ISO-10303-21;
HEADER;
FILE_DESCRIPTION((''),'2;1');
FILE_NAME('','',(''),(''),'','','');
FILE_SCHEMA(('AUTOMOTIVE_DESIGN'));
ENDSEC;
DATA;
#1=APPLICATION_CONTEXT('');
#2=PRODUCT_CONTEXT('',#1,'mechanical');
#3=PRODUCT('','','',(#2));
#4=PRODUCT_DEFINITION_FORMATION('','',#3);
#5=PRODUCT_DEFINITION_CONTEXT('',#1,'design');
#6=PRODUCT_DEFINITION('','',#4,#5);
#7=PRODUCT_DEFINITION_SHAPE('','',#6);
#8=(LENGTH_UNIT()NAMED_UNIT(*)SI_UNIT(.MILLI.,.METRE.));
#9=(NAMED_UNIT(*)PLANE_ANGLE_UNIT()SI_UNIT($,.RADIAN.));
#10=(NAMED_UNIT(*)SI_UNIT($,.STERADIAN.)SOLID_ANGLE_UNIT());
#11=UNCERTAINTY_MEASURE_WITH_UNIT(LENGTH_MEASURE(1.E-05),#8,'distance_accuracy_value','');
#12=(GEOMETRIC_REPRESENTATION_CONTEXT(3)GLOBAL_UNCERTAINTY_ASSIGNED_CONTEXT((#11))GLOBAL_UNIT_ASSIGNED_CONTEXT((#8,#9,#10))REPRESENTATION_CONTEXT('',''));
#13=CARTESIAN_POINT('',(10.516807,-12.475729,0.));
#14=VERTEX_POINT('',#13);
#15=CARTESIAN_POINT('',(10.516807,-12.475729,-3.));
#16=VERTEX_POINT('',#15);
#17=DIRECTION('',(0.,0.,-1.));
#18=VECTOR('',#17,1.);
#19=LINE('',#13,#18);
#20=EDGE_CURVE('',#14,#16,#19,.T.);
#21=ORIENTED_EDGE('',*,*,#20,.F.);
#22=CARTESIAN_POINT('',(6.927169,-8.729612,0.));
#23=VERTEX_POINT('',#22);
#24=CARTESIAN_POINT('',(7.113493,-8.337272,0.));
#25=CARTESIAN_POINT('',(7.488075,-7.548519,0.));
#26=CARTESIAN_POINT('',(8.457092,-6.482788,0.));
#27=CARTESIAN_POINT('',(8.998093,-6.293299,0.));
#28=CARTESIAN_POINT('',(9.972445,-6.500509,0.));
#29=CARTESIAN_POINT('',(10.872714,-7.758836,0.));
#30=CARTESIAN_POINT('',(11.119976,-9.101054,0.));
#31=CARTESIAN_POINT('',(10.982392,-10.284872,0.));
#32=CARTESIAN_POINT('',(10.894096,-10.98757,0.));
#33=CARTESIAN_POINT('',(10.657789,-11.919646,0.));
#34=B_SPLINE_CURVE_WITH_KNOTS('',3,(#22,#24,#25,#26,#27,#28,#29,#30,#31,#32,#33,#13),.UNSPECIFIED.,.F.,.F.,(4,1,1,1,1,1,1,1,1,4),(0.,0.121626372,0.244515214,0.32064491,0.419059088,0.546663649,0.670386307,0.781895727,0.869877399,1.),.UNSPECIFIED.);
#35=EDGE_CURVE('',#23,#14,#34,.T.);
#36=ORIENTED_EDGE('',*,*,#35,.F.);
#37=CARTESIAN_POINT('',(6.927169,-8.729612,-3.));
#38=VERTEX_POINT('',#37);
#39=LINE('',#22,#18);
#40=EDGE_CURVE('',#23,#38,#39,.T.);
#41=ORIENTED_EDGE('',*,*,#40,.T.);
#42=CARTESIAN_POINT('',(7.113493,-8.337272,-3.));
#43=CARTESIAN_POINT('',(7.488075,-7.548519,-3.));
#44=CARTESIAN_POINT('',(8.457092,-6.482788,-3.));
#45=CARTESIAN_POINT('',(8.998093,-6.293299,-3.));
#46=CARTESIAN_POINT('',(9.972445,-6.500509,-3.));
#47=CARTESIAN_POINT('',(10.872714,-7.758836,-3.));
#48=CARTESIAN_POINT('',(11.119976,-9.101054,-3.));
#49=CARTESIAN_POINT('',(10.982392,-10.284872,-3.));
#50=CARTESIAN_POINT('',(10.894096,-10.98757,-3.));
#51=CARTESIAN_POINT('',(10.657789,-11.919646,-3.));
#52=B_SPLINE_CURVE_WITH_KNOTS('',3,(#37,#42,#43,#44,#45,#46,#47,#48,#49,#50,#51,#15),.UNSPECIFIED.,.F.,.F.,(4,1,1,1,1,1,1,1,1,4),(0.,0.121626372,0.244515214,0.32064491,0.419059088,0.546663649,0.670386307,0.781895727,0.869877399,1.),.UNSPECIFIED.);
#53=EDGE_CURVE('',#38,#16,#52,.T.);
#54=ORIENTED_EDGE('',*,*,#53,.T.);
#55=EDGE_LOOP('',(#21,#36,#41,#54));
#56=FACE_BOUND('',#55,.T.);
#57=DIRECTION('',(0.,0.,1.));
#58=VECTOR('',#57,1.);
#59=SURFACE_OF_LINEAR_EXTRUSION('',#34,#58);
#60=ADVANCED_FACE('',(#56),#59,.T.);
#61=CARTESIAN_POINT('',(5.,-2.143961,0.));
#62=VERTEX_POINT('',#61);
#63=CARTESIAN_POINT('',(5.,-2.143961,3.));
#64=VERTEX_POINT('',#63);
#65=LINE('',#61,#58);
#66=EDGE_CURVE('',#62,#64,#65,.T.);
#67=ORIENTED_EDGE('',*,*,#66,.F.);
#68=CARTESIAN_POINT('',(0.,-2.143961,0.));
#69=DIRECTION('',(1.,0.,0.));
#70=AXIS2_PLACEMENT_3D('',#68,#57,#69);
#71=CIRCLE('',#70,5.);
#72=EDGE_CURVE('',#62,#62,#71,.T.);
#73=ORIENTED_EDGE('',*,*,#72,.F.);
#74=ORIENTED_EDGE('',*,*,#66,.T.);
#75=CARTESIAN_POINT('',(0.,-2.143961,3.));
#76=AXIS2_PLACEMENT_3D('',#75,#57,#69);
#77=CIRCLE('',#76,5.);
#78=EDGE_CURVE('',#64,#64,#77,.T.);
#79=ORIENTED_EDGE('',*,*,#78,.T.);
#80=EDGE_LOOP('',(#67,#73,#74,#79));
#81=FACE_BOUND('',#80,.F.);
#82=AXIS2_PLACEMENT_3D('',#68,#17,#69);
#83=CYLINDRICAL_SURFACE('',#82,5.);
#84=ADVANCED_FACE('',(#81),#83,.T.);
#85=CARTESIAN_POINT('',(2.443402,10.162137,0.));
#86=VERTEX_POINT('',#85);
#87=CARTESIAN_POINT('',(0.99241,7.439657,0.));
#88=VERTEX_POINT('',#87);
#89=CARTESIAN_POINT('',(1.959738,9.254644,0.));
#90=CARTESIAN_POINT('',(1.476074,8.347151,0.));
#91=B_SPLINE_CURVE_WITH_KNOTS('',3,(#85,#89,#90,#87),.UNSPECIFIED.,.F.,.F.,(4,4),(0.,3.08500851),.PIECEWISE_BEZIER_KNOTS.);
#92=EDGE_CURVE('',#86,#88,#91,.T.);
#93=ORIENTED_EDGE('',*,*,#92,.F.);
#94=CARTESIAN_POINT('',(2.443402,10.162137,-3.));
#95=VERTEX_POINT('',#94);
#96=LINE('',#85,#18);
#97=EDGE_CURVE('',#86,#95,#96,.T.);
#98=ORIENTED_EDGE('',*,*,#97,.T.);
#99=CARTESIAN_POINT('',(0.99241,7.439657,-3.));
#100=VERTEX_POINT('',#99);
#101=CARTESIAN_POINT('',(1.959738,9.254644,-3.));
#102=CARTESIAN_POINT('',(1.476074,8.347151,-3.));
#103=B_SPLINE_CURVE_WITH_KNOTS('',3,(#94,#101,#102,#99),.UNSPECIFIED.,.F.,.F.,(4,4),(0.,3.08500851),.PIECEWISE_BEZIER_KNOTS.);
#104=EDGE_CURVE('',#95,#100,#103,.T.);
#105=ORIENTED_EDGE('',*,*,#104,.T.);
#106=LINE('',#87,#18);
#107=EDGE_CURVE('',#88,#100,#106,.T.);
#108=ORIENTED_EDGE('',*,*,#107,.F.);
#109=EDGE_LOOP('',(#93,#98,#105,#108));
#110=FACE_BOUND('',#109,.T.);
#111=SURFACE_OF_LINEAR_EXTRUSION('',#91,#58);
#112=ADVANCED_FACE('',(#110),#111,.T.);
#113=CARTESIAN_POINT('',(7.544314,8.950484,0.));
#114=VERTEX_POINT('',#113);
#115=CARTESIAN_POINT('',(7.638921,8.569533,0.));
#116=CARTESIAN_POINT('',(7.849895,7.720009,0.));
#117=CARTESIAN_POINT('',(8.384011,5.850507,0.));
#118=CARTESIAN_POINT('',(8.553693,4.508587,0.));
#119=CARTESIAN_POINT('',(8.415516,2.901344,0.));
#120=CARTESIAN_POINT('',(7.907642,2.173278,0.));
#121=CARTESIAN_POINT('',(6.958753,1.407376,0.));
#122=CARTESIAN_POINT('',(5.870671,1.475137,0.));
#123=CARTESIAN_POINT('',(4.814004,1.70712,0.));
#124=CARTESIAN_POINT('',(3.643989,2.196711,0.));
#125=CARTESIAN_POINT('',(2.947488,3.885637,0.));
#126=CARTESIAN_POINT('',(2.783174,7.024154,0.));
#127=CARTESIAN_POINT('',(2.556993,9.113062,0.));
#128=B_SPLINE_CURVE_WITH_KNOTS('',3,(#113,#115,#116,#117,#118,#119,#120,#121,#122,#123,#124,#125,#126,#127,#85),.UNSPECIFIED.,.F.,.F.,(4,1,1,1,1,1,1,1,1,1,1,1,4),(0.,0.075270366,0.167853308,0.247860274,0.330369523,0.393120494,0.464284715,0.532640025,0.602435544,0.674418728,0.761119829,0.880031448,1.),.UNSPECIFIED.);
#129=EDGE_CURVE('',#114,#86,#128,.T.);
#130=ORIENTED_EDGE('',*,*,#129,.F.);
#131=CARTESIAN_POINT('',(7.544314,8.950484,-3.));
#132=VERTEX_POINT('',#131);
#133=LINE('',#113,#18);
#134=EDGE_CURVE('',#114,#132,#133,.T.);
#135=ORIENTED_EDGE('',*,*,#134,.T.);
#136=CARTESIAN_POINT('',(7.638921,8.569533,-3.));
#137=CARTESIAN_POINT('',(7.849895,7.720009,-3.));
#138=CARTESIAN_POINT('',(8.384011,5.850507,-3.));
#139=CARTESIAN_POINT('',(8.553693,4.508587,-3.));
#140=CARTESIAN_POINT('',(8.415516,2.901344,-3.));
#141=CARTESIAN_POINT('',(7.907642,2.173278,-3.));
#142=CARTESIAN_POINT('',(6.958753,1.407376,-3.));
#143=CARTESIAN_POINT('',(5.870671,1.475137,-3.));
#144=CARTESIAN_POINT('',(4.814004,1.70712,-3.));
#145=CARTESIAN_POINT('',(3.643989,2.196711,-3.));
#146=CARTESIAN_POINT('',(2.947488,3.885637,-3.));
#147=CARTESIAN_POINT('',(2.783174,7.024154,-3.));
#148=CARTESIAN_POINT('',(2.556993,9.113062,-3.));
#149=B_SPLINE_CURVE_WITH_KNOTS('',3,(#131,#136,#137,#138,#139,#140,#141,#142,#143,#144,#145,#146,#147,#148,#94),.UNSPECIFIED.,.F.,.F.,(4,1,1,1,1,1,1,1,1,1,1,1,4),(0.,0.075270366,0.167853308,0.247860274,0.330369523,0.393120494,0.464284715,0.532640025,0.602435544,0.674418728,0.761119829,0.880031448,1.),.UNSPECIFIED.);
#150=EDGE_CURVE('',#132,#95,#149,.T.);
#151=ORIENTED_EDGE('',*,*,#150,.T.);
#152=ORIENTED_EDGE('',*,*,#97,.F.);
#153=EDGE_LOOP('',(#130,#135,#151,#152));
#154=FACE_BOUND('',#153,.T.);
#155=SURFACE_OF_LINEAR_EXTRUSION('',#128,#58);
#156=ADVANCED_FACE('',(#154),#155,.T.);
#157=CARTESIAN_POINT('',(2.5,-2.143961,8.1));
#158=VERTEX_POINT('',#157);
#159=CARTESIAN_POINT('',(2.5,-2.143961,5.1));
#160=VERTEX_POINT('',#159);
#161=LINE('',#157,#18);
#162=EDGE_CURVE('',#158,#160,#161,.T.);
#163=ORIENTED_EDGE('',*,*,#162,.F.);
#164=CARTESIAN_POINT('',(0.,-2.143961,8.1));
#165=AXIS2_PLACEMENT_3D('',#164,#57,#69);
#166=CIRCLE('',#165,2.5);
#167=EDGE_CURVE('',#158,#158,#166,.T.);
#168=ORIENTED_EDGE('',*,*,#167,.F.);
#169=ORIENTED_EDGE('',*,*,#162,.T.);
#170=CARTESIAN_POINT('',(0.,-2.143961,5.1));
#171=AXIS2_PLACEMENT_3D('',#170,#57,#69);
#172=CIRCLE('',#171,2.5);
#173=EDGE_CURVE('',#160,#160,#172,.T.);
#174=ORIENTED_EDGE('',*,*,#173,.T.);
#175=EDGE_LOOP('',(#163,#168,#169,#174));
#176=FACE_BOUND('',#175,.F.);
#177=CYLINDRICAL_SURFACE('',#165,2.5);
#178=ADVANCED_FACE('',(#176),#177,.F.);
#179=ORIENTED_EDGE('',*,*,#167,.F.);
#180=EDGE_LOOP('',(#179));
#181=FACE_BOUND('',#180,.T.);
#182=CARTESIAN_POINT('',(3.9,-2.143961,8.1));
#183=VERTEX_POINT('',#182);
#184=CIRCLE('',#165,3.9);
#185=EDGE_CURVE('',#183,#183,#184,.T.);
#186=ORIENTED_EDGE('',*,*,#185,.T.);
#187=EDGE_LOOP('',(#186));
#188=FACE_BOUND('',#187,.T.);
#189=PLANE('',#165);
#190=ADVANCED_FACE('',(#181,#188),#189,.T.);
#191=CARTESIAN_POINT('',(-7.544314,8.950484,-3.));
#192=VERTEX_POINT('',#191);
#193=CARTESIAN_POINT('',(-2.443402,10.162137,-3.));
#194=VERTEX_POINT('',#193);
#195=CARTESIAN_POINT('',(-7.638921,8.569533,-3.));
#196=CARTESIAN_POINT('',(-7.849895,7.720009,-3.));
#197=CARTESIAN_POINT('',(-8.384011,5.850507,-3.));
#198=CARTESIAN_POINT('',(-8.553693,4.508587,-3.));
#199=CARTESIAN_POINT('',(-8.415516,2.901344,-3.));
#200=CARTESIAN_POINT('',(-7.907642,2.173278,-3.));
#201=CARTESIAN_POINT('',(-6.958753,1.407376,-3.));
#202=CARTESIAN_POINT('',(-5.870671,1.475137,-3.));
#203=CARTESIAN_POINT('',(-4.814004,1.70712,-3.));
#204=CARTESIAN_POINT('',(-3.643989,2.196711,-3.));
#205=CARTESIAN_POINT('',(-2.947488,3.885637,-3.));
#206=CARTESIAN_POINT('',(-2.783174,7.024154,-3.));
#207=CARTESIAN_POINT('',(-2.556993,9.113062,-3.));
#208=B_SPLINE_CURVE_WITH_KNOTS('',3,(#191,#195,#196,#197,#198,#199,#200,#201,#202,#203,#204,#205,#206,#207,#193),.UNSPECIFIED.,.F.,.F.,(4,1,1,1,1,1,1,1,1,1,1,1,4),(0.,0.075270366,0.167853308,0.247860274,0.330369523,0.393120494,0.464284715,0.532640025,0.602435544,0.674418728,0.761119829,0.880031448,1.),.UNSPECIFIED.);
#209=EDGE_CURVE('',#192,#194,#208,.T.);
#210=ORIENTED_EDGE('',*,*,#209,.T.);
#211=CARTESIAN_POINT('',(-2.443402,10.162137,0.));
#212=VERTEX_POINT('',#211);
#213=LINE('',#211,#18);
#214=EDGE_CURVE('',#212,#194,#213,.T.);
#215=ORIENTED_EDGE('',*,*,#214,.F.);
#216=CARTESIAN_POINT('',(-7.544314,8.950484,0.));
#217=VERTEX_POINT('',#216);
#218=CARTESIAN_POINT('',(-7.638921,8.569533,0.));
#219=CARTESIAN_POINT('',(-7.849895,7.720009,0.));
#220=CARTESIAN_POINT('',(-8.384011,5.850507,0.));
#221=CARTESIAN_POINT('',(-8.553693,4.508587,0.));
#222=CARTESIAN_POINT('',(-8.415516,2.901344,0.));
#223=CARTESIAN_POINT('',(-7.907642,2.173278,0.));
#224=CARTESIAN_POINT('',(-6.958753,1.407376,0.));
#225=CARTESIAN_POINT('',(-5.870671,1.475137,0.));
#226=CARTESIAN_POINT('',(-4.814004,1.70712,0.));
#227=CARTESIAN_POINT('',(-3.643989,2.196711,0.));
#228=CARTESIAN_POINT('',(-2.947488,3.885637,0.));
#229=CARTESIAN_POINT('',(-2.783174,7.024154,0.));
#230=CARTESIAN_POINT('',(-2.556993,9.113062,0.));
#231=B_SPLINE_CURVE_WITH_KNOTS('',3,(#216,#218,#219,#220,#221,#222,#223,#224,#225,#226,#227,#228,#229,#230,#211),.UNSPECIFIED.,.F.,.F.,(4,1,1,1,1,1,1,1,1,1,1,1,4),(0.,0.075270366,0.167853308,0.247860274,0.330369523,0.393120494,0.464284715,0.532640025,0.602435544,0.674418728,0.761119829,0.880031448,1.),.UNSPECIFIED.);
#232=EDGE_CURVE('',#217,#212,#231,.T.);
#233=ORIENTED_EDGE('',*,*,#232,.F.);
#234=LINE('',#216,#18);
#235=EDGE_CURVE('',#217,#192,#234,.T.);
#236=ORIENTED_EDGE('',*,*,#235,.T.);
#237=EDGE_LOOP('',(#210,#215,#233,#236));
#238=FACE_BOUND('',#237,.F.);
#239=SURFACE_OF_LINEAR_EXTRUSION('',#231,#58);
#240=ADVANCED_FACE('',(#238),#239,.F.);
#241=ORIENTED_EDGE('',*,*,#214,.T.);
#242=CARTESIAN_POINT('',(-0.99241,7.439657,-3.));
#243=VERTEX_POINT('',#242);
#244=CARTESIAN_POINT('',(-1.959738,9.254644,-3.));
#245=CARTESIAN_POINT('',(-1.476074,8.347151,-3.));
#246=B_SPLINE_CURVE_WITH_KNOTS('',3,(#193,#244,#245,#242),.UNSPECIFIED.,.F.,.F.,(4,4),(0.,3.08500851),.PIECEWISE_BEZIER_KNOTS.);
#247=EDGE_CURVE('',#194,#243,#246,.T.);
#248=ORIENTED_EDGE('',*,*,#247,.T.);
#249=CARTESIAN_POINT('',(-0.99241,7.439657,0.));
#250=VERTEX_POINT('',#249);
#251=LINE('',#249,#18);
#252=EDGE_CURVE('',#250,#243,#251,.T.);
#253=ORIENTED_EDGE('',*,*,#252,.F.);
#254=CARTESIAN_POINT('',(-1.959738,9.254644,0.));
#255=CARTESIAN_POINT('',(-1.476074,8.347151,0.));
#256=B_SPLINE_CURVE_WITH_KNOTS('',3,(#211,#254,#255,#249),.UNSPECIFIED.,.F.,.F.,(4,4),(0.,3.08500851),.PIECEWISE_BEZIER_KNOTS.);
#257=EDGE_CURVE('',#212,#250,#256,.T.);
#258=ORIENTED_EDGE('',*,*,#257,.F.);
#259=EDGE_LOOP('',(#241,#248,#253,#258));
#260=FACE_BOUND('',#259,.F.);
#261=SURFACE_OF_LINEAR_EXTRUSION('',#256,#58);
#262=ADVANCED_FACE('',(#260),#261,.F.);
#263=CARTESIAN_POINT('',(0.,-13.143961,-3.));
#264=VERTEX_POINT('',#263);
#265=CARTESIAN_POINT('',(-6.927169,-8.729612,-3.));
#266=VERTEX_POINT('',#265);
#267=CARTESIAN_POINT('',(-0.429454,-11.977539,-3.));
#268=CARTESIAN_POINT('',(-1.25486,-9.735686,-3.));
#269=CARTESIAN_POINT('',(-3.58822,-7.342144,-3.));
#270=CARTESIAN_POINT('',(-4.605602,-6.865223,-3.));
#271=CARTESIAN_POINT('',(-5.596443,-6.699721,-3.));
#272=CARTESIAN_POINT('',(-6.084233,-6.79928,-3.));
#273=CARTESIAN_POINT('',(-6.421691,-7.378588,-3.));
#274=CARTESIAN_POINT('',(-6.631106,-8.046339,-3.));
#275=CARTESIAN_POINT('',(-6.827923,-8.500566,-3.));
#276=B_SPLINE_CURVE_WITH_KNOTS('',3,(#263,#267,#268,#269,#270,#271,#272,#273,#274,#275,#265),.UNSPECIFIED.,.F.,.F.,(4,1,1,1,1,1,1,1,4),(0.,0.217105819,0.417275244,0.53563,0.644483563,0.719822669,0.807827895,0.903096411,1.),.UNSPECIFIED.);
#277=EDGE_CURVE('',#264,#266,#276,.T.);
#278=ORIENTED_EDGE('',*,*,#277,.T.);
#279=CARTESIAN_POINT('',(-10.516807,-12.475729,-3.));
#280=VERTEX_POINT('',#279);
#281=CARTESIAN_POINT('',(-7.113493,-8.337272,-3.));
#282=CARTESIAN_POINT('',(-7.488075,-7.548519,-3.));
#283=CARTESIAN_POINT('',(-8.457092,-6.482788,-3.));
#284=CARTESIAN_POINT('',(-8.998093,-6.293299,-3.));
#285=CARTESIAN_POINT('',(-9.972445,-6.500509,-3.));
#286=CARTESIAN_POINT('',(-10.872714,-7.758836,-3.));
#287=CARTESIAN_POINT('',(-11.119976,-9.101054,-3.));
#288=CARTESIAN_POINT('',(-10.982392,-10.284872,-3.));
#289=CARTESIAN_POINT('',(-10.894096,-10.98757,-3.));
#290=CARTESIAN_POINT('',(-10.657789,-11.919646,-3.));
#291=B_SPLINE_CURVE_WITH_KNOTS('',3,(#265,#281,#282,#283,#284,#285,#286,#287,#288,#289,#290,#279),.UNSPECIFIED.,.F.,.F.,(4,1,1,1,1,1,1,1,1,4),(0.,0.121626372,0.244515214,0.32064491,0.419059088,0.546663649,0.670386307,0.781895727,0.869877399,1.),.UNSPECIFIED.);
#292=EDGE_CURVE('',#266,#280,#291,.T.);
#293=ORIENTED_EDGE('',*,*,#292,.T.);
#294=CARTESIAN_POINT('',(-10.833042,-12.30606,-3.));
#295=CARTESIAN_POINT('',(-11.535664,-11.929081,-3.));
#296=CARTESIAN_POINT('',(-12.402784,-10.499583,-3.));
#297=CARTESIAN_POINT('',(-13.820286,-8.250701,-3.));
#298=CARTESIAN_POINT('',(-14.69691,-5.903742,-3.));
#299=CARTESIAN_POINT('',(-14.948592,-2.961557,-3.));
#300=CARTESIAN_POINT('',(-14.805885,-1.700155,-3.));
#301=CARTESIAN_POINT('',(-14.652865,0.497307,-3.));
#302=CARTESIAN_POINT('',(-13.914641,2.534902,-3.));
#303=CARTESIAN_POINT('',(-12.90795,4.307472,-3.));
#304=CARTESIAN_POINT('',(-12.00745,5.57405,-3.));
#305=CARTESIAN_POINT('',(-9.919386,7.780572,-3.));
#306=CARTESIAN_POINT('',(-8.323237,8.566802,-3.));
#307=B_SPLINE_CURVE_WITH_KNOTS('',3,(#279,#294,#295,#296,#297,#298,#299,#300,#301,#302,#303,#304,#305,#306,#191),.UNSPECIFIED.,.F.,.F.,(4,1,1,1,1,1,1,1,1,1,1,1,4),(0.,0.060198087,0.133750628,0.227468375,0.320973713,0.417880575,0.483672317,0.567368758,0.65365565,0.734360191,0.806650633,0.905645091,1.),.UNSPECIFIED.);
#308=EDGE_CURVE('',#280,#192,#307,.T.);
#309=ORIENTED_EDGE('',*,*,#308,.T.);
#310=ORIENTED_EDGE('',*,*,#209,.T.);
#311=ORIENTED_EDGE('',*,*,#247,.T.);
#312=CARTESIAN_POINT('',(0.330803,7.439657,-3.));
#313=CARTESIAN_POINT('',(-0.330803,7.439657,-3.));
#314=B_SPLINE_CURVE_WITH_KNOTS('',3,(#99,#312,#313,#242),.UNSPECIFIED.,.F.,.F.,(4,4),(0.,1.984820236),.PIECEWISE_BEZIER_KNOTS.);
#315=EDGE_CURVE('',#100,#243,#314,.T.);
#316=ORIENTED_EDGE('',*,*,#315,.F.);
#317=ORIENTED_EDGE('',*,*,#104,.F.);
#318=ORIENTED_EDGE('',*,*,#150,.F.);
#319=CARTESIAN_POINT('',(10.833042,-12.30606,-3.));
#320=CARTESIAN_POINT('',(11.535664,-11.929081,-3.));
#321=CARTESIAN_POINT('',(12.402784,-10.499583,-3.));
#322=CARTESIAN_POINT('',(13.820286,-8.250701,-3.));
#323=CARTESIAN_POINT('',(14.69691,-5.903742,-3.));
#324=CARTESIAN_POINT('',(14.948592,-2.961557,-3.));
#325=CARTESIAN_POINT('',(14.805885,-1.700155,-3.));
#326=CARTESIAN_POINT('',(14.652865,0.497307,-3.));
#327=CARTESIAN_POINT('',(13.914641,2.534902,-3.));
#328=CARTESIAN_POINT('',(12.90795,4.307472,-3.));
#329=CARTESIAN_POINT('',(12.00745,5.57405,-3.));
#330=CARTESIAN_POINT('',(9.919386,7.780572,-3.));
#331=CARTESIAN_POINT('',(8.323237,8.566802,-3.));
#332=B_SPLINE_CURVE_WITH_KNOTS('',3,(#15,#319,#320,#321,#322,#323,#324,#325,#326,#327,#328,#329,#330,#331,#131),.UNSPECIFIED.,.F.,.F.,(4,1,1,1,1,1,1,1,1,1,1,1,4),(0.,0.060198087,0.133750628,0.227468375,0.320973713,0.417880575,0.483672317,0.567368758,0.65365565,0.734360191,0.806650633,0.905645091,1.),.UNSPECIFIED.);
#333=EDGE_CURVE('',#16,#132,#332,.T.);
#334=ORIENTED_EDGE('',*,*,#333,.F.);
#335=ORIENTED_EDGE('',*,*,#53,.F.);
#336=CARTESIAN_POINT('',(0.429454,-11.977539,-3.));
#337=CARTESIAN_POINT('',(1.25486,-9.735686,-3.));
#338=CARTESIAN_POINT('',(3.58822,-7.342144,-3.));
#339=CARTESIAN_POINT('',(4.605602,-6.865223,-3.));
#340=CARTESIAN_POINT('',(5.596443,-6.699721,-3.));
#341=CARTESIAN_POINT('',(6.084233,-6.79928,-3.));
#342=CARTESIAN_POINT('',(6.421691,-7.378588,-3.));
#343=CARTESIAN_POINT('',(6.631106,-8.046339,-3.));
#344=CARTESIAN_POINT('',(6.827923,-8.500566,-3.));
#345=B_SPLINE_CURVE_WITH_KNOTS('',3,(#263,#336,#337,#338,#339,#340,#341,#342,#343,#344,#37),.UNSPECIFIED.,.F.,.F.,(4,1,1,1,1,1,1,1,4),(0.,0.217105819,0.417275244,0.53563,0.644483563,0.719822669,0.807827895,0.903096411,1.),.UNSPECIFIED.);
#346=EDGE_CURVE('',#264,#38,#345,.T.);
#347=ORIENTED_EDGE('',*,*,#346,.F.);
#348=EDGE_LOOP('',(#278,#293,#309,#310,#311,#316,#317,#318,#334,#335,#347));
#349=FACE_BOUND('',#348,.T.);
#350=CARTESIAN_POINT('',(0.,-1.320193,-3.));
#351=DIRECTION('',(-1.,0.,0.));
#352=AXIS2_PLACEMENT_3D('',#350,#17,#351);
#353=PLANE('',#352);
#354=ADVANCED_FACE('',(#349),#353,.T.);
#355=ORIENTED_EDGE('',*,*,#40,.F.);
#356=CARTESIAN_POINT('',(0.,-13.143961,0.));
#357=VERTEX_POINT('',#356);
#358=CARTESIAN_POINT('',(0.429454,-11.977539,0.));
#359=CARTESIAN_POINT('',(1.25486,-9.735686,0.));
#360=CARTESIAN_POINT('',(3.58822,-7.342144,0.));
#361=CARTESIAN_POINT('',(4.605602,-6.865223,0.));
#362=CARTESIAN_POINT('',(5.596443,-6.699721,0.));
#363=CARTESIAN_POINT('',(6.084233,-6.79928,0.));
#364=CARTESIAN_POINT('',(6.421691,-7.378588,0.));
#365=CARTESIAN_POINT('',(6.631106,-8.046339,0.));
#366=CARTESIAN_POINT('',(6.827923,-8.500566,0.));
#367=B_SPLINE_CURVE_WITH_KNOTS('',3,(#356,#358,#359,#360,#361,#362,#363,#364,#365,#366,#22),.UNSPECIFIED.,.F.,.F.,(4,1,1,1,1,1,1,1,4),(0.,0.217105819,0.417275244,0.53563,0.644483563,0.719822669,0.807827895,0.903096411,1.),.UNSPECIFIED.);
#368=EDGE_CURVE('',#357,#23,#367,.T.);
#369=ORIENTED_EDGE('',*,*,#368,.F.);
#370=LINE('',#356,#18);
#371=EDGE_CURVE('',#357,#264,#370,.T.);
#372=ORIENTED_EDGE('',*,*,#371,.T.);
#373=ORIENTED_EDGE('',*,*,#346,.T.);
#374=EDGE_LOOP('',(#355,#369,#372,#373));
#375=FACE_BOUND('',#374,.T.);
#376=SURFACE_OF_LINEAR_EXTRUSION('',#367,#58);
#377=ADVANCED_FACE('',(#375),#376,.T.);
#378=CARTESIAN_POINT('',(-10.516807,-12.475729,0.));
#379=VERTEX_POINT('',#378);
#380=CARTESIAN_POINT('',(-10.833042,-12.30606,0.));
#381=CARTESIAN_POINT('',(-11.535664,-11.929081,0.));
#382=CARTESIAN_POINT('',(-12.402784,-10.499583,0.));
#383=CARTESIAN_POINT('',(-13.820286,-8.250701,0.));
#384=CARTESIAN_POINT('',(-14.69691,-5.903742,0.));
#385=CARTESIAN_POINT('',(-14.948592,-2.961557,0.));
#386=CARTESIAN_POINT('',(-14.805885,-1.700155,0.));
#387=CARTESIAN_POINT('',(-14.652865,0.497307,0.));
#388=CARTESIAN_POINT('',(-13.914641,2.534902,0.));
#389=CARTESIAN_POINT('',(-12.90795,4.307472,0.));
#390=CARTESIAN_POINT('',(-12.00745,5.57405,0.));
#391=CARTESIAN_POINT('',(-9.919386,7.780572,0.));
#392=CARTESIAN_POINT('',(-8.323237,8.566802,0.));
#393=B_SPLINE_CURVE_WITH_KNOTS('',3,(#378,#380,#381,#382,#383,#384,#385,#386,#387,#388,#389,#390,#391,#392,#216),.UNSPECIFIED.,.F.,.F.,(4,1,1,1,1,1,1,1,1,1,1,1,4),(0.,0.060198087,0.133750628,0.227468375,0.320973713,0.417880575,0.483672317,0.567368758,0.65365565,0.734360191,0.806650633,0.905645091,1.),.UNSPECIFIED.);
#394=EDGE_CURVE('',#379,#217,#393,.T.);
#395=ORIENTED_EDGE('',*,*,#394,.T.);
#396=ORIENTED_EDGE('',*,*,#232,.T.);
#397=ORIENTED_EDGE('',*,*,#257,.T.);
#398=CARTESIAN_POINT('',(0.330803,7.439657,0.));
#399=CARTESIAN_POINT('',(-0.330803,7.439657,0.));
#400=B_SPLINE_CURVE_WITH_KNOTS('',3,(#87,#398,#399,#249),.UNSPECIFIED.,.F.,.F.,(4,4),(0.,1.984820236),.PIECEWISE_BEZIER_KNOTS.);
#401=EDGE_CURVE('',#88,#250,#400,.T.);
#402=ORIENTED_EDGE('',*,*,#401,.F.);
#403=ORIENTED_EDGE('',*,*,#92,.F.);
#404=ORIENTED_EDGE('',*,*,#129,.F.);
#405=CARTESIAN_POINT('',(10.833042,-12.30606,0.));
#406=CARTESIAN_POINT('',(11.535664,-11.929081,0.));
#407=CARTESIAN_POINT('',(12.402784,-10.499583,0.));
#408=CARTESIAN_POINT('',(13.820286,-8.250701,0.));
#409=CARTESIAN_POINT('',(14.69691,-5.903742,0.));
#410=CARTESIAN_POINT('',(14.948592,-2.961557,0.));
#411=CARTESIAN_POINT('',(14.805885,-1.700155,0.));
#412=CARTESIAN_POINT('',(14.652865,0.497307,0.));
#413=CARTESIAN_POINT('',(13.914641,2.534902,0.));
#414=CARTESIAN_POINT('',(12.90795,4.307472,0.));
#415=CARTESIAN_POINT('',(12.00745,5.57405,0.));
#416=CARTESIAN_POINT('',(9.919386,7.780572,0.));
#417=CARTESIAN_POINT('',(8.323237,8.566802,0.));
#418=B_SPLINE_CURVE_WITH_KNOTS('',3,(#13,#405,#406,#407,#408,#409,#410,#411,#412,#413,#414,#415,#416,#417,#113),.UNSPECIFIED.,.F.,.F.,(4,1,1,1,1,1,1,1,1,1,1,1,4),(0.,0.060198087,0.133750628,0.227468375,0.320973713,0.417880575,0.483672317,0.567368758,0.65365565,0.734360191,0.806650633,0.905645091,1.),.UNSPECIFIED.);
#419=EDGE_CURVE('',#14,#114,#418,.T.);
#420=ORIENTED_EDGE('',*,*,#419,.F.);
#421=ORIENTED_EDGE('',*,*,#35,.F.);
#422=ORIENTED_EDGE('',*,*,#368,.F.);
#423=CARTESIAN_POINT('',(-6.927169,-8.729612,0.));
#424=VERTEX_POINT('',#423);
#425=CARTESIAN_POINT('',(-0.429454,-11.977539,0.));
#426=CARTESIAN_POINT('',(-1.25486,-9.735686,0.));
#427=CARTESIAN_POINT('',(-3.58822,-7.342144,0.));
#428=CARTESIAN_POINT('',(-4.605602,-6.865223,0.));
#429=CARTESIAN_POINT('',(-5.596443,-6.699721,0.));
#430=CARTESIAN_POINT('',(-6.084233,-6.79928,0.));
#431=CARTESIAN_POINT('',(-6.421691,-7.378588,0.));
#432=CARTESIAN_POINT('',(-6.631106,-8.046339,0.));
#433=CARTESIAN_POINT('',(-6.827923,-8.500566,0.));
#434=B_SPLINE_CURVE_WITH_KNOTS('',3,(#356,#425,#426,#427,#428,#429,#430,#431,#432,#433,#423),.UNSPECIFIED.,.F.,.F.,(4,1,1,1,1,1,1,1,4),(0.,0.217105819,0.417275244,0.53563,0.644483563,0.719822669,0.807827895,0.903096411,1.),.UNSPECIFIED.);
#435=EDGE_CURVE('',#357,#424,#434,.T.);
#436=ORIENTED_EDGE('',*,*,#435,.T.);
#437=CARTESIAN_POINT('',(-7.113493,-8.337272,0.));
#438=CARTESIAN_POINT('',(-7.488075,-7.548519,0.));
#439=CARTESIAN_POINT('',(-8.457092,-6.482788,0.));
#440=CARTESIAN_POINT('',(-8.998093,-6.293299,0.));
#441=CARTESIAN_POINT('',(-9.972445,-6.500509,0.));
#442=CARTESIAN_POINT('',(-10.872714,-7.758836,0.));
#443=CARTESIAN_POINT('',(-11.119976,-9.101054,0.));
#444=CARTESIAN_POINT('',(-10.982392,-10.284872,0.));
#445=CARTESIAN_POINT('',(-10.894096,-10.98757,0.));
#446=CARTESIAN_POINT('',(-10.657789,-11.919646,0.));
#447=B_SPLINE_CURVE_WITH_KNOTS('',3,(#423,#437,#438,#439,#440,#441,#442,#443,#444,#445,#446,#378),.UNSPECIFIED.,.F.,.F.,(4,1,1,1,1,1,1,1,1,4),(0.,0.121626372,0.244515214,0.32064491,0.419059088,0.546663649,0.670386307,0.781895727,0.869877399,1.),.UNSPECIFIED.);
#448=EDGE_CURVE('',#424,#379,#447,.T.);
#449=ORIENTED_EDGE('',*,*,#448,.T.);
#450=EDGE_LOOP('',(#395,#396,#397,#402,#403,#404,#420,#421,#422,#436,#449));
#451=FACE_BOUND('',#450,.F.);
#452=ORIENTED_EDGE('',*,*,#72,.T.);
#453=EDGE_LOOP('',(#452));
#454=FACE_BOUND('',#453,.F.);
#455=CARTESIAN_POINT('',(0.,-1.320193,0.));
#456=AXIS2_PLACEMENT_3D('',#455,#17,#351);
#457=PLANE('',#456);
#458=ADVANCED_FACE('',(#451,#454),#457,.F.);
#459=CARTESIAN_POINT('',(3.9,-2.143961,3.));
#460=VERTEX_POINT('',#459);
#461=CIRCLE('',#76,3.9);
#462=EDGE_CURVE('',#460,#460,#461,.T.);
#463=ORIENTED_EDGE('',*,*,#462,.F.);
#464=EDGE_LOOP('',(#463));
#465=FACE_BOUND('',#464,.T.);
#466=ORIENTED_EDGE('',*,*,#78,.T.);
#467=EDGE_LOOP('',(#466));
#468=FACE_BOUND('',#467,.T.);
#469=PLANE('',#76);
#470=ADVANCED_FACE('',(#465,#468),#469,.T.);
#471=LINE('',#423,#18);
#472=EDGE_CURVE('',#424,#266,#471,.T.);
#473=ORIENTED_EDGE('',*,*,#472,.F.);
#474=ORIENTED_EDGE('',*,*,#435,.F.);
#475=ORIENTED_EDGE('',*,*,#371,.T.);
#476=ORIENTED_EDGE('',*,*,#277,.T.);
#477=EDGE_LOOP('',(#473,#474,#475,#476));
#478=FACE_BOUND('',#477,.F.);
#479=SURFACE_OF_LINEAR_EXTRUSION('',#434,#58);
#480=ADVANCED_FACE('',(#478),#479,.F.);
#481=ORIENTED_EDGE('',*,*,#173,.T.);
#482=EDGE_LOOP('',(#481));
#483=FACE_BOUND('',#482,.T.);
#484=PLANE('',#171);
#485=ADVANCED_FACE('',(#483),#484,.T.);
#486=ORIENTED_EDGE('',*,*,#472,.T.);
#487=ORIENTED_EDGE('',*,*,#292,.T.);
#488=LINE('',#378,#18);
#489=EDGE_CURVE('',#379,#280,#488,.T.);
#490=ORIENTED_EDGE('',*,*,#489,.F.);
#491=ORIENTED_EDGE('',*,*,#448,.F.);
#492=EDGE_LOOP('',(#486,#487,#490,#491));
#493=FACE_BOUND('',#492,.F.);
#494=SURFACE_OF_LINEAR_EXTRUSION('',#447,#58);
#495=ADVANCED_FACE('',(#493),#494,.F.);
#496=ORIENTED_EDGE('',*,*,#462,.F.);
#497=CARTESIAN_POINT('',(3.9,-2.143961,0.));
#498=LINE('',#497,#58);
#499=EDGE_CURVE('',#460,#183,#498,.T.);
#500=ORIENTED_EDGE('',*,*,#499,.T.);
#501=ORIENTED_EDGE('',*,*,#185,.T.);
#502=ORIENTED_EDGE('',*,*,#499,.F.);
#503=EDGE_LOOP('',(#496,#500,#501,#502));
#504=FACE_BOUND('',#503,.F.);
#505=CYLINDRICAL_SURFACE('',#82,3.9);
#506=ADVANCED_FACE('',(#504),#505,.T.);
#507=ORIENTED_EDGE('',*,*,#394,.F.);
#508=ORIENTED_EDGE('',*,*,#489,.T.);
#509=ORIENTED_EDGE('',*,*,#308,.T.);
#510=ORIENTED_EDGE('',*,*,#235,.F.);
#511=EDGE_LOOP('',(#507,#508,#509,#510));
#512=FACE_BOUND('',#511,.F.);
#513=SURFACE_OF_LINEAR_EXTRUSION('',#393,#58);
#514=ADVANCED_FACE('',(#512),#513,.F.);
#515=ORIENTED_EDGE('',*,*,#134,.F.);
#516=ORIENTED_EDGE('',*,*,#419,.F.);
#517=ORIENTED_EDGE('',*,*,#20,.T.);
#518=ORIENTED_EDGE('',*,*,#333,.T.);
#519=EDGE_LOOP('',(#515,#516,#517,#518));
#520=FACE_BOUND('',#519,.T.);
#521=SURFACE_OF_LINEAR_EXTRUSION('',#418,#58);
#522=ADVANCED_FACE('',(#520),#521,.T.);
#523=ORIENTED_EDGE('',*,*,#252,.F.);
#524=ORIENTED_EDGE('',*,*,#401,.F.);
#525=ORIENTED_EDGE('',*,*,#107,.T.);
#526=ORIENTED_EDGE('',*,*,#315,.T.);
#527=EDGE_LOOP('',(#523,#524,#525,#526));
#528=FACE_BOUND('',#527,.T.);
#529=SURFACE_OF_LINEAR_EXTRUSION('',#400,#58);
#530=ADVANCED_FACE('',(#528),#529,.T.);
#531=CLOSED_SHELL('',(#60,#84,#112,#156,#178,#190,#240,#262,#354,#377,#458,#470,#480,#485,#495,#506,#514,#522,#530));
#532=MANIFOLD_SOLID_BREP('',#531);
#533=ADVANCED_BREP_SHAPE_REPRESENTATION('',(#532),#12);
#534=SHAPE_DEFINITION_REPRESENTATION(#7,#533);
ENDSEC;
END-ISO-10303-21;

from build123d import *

# Parameters (mm, degrees)
F0_R     = 5
F0_R_2   = 3.9
F1_DEPTH = 3
F2_DEPTH = 8.1
F3_DEPTH = 3
F4_R     = 2.5
F5_DEPTH = 3


with BuildPart() as f1:
    # F0 (on Top) → F1 (new body)
    with BuildSketch(Plane.XY):
        with Locations((0, -2.1439613178)):
            Circle(F0_R)
        with Locations((0, -2.1439613178)):
            Circle(F0_R_2, mode=Mode.SUBTRACT)
    extrude(amount=F1_DEPTH)

    # F0 (on Top) → F2 (join)
    with BuildSketch(Plane.XY):
        with Locations((0, -2.1439613178)):
            Circle(F0_R_2)
    extrude(amount=F2_DEPTH)

    # F0 (on Top) → F3 (join)
    with BuildSketch(Plane.XY):
        with BuildLine():
            add(Edge.make_bspline(
                [(0, -13.1439613178), (-0.4294539751, -11.9775387571), (-1.2548602794, -9.7356860997), (-3.5882204359, -7.3421443207), (-4.6056022039, -6.8652228997), (-5.59644324, -6.6997209592), (-6.0842325755, -6.7992801193), (-6.421690631, -7.3785882809), (-6.6311064449, -8.0463387493), (-6.8279232365, -8.5005663065), (-6.9271689281, -8.7296124548)],
                knots=[0, 0, 0, 0, 0.2171058195, 0.4172752437, 0.53563, 0.6444835629, 0.719822669, 0.8078278946, 0.9030964109, 1, 1, 1, 1], degree=3))
            add(Edge.make_bspline(
                [(0, -13.1439613178), (0.4294539751, -11.9775387571), (1.2548602794, -9.7356860997), (3.5882204359, -7.3421443207), (4.6056022039, -6.8652228997), (5.59644324, -6.6997209592), (6.0842325755, -6.7992801193), (6.421690631, -7.3785882809), (6.6311064449, -8.0463387493), (6.8279232365, -8.5005663065), (6.9271689281, -8.7296124548)],
                knots=[0, 0, 0, 0, 0.2171058195, 0.4172752437, 0.53563, 0.6444835629, 0.719822669, 0.8078278946, 0.9030964109, 1, 1, 1, 1], degree=3))
            add(Edge.make_bspline(
                [(6.9271689281, -8.7296124548), (7.1134929089, -8.3372721452), (7.488074895, -7.5485190726), (8.4570919572, -6.4827882523), (8.9980930935, -6.2932991044), (9.9724452781, -6.500508657), (10.8727144612, -7.758835945), (11.1199759549, -9.1010536806), (10.9823923974, -10.2848723846), (10.8940956062, -10.9875703061), (10.6577894277, -11.9196458914), (10.5168074369, -12.4757289886)],
                knots=[0, 0, 0, 0, 0.1216263724, 0.2445152145, 0.3206449098, 0.4190590878, 0.5466636489, 0.6703863075, 0.7818957274, 0.8698773991, 1, 1, 1, 1], degree=3))
            add(Edge.make_bspline(
                [(10.5168074369, -12.4757289886), (10.8330415271, -12.3060597242), (11.5356636572, -11.9290814551), (12.4027841021, -10.4995830509), (13.8202863847, -8.2507010885), (14.6969099323, -5.9037420567), (14.9485923671, -2.9615572621), (14.8058853863, -1.7001553968), (14.6528648582, 0.4973066476), (13.9146408287, 2.5349021338), (12.9079496989, 4.3074721389), (12.007450278, 5.5740503409), (9.9193860193, 7.7805719205), (8.3232374896, 8.5668020048), (7.5443135574, 8.9504839852)],
                knots=[0, 0, 0, 0, 0.0601980873, 0.1337506285, 0.227468375, 0.3209737133, 0.4178805746, 0.483672317, 0.5673687583, 0.6536556499, 0.7343601906, 0.8066506333, 0.9056450912, 1, 1, 1, 1], degree=3))
            add(Edge.make_bspline(
                [(7.5443135574, 8.9504839852), (7.6389206925, 8.5695326115), (7.8498950971, 7.7200090611), (8.3840108509, 5.8505067231), (8.553692706, 4.5085870534), (8.4155164417, 2.9013441134), (7.9076420532, 2.173278469), (6.9587534427, 1.4073756699), (5.870671358, 1.4751366742), (4.8140044742, 1.7071195914), (3.6439890322, 2.1967111639), (2.9474881014, 3.8856367555), (2.7831740694, 7.0241541467), (2.5569931426, 9.1130622026), (2.4434023071, 10.1621374488)],
                knots=[0, 0, 0, 0, 0.0752703658, 0.1678533083, 0.247860274, 0.3303695231, 0.3931204941, 0.4642847146, 0.532640025, 0.6024355443, 0.6744187279, 0.7611198291, 0.8800314483, 1, 1, 1, 1], degree=3))
            add(Edge.make_bspline(
                [(2.4434023071, 10.1621374488), (1.959738244, 9.254644004), (1.4760741809, 8.3471505592), (0.9924101178, 7.4396571144)],
                knots=[0, 0, 0, 0, 3.0850085096, 3.0850085096, 3.0850085096, 3.0850085096], degree=3))
            add(Edge.make_bspline(
                [(0.9924101178, 7.4396571144), (0.6616067452, 7.4396571144), (0.3308033726, 7.4396571144), (0, 7.4396571144)],
                knots=[0, 0, 0, 0, 0.9924101178, 0.9924101178, 0.9924101178, 0.9924101178], degree=3))
            add(Edge.make_bspline(
                [(-0.9924101178, 7.4396571144), (-0.6616067452, 7.4396571144), (-0.3308033726, 7.4396571144), (0, 7.4396571144)],
                knots=[0, 0, 0, 0, 0.9924101178, 0.9924101178, 0.9924101178, 0.9924101178], degree=3))
            add(Edge.make_bspline(
                [(-2.4434023071, 10.1621374488), (-1.959738244, 9.254644004), (-1.4760741809, 8.3471505592), (-0.9924101178, 7.4396571144)],
                knots=[0, 0, 0, 0, 3.0850085096, 3.0850085096, 3.0850085096, 3.0850085096], degree=3))
            add(Edge.make_bspline(
                [(-7.5443135574, 8.9504839852), (-7.6389206925, 8.5695326115), (-7.8498950971, 7.7200090611), (-8.3840108509, 5.8505067231), (-8.553692706, 4.5085870534), (-8.4155164417, 2.9013441134), (-7.9076420532, 2.173278469), (-6.9587534427, 1.4073756699), (-5.870671358, 1.4751366742), (-4.8140044742, 1.7071195914), (-3.6439890322, 2.1967111639), (-2.9474881014, 3.8856367555), (-2.7831740694, 7.0241541467), (-2.5569931426, 9.1130622026), (-2.4434023071, 10.1621374488)],
                knots=[0, 0, 0, 0, 0.0752703658, 0.1678533083, 0.247860274, 0.3303695231, 0.3931204941, 0.4642847146, 0.532640025, 0.6024355443, 0.6744187279, 0.7611198291, 0.8800314483, 1, 1, 1, 1], degree=3))
            add(Edge.make_bspline(
                [(-10.5168074369, -12.4757289886), (-10.8330415271, -12.3060597242), (-11.5356636572, -11.9290814551), (-12.4027841021, -10.4995830509), (-13.8202863847, -8.2507010885), (-14.6969099323, -5.9037420567), (-14.9485923671, -2.9615572621), (-14.8058853863, -1.7001553968), (-14.6528648582, 0.4973066476), (-13.9146408287, 2.5349021338), (-12.9079496989, 4.3074721389), (-12.007450278, 5.5740503409), (-9.9193860193, 7.7805719205), (-8.3232374896, 8.5668020048), (-7.5443135574, 8.9504839852)],
                knots=[0, 0, 0, 0, 0.0601980873, 0.1337506285, 0.227468375, 0.3209737133, 0.4178805746, 0.483672317, 0.5673687583, 0.6536556499, 0.7343601906, 0.8066506333, 0.9056450912, 1, 1, 1, 1], degree=3))
            add(Edge.make_bspline(
                [(-6.9271689281, -8.7296124548), (-7.1134929089, -8.3372721452), (-7.488074895, -7.5485190726), (-8.4570919572, -6.4827882523), (-8.9980930935, -6.2932991044), (-9.9724452781, -6.500508657), (-10.8727144612, -7.758835945), (-11.1199759549, -9.1010536806), (-10.9823923974, -10.2848723846), (-10.8940956062, -10.9875703061), (-10.6577894277, -11.9196458914), (-10.5168074369, -12.4757289886)],
                knots=[0, 0, 0, 0, 0.1216263724, 0.2445152145, 0.3206449098, 0.4190590878, 0.5466636489, 0.6703863075, 0.7818957274, 0.8698773991, 1, 1, 1, 1], degree=3))
        make_face()
        with Locations((0, -2.1439613178)):
            Circle(F0_R, mode=Mode.SUBTRACT)
        with Locations((0, -2.1439613178)):
            Circle(F0_R)
        with Locations((0, -2.1439613178)):
            Circle(F0_R_2, mode=Mode.SUBTRACT)
        with Locations((0, -2.1439613178)):
            Circle(F0_R_2)
    extrude(amount=-F3_DEPTH)

    # F4 (on face) → F5 (cut)
    with BuildSketch(Plane.XY.offset(8.1)):
        with Locations((0, -2.1439613178)):
            Circle(F4_R)
    extrude(amount=-F5_DEPTH, mode=Mode.SUBTRACT)


solid = f1.part
